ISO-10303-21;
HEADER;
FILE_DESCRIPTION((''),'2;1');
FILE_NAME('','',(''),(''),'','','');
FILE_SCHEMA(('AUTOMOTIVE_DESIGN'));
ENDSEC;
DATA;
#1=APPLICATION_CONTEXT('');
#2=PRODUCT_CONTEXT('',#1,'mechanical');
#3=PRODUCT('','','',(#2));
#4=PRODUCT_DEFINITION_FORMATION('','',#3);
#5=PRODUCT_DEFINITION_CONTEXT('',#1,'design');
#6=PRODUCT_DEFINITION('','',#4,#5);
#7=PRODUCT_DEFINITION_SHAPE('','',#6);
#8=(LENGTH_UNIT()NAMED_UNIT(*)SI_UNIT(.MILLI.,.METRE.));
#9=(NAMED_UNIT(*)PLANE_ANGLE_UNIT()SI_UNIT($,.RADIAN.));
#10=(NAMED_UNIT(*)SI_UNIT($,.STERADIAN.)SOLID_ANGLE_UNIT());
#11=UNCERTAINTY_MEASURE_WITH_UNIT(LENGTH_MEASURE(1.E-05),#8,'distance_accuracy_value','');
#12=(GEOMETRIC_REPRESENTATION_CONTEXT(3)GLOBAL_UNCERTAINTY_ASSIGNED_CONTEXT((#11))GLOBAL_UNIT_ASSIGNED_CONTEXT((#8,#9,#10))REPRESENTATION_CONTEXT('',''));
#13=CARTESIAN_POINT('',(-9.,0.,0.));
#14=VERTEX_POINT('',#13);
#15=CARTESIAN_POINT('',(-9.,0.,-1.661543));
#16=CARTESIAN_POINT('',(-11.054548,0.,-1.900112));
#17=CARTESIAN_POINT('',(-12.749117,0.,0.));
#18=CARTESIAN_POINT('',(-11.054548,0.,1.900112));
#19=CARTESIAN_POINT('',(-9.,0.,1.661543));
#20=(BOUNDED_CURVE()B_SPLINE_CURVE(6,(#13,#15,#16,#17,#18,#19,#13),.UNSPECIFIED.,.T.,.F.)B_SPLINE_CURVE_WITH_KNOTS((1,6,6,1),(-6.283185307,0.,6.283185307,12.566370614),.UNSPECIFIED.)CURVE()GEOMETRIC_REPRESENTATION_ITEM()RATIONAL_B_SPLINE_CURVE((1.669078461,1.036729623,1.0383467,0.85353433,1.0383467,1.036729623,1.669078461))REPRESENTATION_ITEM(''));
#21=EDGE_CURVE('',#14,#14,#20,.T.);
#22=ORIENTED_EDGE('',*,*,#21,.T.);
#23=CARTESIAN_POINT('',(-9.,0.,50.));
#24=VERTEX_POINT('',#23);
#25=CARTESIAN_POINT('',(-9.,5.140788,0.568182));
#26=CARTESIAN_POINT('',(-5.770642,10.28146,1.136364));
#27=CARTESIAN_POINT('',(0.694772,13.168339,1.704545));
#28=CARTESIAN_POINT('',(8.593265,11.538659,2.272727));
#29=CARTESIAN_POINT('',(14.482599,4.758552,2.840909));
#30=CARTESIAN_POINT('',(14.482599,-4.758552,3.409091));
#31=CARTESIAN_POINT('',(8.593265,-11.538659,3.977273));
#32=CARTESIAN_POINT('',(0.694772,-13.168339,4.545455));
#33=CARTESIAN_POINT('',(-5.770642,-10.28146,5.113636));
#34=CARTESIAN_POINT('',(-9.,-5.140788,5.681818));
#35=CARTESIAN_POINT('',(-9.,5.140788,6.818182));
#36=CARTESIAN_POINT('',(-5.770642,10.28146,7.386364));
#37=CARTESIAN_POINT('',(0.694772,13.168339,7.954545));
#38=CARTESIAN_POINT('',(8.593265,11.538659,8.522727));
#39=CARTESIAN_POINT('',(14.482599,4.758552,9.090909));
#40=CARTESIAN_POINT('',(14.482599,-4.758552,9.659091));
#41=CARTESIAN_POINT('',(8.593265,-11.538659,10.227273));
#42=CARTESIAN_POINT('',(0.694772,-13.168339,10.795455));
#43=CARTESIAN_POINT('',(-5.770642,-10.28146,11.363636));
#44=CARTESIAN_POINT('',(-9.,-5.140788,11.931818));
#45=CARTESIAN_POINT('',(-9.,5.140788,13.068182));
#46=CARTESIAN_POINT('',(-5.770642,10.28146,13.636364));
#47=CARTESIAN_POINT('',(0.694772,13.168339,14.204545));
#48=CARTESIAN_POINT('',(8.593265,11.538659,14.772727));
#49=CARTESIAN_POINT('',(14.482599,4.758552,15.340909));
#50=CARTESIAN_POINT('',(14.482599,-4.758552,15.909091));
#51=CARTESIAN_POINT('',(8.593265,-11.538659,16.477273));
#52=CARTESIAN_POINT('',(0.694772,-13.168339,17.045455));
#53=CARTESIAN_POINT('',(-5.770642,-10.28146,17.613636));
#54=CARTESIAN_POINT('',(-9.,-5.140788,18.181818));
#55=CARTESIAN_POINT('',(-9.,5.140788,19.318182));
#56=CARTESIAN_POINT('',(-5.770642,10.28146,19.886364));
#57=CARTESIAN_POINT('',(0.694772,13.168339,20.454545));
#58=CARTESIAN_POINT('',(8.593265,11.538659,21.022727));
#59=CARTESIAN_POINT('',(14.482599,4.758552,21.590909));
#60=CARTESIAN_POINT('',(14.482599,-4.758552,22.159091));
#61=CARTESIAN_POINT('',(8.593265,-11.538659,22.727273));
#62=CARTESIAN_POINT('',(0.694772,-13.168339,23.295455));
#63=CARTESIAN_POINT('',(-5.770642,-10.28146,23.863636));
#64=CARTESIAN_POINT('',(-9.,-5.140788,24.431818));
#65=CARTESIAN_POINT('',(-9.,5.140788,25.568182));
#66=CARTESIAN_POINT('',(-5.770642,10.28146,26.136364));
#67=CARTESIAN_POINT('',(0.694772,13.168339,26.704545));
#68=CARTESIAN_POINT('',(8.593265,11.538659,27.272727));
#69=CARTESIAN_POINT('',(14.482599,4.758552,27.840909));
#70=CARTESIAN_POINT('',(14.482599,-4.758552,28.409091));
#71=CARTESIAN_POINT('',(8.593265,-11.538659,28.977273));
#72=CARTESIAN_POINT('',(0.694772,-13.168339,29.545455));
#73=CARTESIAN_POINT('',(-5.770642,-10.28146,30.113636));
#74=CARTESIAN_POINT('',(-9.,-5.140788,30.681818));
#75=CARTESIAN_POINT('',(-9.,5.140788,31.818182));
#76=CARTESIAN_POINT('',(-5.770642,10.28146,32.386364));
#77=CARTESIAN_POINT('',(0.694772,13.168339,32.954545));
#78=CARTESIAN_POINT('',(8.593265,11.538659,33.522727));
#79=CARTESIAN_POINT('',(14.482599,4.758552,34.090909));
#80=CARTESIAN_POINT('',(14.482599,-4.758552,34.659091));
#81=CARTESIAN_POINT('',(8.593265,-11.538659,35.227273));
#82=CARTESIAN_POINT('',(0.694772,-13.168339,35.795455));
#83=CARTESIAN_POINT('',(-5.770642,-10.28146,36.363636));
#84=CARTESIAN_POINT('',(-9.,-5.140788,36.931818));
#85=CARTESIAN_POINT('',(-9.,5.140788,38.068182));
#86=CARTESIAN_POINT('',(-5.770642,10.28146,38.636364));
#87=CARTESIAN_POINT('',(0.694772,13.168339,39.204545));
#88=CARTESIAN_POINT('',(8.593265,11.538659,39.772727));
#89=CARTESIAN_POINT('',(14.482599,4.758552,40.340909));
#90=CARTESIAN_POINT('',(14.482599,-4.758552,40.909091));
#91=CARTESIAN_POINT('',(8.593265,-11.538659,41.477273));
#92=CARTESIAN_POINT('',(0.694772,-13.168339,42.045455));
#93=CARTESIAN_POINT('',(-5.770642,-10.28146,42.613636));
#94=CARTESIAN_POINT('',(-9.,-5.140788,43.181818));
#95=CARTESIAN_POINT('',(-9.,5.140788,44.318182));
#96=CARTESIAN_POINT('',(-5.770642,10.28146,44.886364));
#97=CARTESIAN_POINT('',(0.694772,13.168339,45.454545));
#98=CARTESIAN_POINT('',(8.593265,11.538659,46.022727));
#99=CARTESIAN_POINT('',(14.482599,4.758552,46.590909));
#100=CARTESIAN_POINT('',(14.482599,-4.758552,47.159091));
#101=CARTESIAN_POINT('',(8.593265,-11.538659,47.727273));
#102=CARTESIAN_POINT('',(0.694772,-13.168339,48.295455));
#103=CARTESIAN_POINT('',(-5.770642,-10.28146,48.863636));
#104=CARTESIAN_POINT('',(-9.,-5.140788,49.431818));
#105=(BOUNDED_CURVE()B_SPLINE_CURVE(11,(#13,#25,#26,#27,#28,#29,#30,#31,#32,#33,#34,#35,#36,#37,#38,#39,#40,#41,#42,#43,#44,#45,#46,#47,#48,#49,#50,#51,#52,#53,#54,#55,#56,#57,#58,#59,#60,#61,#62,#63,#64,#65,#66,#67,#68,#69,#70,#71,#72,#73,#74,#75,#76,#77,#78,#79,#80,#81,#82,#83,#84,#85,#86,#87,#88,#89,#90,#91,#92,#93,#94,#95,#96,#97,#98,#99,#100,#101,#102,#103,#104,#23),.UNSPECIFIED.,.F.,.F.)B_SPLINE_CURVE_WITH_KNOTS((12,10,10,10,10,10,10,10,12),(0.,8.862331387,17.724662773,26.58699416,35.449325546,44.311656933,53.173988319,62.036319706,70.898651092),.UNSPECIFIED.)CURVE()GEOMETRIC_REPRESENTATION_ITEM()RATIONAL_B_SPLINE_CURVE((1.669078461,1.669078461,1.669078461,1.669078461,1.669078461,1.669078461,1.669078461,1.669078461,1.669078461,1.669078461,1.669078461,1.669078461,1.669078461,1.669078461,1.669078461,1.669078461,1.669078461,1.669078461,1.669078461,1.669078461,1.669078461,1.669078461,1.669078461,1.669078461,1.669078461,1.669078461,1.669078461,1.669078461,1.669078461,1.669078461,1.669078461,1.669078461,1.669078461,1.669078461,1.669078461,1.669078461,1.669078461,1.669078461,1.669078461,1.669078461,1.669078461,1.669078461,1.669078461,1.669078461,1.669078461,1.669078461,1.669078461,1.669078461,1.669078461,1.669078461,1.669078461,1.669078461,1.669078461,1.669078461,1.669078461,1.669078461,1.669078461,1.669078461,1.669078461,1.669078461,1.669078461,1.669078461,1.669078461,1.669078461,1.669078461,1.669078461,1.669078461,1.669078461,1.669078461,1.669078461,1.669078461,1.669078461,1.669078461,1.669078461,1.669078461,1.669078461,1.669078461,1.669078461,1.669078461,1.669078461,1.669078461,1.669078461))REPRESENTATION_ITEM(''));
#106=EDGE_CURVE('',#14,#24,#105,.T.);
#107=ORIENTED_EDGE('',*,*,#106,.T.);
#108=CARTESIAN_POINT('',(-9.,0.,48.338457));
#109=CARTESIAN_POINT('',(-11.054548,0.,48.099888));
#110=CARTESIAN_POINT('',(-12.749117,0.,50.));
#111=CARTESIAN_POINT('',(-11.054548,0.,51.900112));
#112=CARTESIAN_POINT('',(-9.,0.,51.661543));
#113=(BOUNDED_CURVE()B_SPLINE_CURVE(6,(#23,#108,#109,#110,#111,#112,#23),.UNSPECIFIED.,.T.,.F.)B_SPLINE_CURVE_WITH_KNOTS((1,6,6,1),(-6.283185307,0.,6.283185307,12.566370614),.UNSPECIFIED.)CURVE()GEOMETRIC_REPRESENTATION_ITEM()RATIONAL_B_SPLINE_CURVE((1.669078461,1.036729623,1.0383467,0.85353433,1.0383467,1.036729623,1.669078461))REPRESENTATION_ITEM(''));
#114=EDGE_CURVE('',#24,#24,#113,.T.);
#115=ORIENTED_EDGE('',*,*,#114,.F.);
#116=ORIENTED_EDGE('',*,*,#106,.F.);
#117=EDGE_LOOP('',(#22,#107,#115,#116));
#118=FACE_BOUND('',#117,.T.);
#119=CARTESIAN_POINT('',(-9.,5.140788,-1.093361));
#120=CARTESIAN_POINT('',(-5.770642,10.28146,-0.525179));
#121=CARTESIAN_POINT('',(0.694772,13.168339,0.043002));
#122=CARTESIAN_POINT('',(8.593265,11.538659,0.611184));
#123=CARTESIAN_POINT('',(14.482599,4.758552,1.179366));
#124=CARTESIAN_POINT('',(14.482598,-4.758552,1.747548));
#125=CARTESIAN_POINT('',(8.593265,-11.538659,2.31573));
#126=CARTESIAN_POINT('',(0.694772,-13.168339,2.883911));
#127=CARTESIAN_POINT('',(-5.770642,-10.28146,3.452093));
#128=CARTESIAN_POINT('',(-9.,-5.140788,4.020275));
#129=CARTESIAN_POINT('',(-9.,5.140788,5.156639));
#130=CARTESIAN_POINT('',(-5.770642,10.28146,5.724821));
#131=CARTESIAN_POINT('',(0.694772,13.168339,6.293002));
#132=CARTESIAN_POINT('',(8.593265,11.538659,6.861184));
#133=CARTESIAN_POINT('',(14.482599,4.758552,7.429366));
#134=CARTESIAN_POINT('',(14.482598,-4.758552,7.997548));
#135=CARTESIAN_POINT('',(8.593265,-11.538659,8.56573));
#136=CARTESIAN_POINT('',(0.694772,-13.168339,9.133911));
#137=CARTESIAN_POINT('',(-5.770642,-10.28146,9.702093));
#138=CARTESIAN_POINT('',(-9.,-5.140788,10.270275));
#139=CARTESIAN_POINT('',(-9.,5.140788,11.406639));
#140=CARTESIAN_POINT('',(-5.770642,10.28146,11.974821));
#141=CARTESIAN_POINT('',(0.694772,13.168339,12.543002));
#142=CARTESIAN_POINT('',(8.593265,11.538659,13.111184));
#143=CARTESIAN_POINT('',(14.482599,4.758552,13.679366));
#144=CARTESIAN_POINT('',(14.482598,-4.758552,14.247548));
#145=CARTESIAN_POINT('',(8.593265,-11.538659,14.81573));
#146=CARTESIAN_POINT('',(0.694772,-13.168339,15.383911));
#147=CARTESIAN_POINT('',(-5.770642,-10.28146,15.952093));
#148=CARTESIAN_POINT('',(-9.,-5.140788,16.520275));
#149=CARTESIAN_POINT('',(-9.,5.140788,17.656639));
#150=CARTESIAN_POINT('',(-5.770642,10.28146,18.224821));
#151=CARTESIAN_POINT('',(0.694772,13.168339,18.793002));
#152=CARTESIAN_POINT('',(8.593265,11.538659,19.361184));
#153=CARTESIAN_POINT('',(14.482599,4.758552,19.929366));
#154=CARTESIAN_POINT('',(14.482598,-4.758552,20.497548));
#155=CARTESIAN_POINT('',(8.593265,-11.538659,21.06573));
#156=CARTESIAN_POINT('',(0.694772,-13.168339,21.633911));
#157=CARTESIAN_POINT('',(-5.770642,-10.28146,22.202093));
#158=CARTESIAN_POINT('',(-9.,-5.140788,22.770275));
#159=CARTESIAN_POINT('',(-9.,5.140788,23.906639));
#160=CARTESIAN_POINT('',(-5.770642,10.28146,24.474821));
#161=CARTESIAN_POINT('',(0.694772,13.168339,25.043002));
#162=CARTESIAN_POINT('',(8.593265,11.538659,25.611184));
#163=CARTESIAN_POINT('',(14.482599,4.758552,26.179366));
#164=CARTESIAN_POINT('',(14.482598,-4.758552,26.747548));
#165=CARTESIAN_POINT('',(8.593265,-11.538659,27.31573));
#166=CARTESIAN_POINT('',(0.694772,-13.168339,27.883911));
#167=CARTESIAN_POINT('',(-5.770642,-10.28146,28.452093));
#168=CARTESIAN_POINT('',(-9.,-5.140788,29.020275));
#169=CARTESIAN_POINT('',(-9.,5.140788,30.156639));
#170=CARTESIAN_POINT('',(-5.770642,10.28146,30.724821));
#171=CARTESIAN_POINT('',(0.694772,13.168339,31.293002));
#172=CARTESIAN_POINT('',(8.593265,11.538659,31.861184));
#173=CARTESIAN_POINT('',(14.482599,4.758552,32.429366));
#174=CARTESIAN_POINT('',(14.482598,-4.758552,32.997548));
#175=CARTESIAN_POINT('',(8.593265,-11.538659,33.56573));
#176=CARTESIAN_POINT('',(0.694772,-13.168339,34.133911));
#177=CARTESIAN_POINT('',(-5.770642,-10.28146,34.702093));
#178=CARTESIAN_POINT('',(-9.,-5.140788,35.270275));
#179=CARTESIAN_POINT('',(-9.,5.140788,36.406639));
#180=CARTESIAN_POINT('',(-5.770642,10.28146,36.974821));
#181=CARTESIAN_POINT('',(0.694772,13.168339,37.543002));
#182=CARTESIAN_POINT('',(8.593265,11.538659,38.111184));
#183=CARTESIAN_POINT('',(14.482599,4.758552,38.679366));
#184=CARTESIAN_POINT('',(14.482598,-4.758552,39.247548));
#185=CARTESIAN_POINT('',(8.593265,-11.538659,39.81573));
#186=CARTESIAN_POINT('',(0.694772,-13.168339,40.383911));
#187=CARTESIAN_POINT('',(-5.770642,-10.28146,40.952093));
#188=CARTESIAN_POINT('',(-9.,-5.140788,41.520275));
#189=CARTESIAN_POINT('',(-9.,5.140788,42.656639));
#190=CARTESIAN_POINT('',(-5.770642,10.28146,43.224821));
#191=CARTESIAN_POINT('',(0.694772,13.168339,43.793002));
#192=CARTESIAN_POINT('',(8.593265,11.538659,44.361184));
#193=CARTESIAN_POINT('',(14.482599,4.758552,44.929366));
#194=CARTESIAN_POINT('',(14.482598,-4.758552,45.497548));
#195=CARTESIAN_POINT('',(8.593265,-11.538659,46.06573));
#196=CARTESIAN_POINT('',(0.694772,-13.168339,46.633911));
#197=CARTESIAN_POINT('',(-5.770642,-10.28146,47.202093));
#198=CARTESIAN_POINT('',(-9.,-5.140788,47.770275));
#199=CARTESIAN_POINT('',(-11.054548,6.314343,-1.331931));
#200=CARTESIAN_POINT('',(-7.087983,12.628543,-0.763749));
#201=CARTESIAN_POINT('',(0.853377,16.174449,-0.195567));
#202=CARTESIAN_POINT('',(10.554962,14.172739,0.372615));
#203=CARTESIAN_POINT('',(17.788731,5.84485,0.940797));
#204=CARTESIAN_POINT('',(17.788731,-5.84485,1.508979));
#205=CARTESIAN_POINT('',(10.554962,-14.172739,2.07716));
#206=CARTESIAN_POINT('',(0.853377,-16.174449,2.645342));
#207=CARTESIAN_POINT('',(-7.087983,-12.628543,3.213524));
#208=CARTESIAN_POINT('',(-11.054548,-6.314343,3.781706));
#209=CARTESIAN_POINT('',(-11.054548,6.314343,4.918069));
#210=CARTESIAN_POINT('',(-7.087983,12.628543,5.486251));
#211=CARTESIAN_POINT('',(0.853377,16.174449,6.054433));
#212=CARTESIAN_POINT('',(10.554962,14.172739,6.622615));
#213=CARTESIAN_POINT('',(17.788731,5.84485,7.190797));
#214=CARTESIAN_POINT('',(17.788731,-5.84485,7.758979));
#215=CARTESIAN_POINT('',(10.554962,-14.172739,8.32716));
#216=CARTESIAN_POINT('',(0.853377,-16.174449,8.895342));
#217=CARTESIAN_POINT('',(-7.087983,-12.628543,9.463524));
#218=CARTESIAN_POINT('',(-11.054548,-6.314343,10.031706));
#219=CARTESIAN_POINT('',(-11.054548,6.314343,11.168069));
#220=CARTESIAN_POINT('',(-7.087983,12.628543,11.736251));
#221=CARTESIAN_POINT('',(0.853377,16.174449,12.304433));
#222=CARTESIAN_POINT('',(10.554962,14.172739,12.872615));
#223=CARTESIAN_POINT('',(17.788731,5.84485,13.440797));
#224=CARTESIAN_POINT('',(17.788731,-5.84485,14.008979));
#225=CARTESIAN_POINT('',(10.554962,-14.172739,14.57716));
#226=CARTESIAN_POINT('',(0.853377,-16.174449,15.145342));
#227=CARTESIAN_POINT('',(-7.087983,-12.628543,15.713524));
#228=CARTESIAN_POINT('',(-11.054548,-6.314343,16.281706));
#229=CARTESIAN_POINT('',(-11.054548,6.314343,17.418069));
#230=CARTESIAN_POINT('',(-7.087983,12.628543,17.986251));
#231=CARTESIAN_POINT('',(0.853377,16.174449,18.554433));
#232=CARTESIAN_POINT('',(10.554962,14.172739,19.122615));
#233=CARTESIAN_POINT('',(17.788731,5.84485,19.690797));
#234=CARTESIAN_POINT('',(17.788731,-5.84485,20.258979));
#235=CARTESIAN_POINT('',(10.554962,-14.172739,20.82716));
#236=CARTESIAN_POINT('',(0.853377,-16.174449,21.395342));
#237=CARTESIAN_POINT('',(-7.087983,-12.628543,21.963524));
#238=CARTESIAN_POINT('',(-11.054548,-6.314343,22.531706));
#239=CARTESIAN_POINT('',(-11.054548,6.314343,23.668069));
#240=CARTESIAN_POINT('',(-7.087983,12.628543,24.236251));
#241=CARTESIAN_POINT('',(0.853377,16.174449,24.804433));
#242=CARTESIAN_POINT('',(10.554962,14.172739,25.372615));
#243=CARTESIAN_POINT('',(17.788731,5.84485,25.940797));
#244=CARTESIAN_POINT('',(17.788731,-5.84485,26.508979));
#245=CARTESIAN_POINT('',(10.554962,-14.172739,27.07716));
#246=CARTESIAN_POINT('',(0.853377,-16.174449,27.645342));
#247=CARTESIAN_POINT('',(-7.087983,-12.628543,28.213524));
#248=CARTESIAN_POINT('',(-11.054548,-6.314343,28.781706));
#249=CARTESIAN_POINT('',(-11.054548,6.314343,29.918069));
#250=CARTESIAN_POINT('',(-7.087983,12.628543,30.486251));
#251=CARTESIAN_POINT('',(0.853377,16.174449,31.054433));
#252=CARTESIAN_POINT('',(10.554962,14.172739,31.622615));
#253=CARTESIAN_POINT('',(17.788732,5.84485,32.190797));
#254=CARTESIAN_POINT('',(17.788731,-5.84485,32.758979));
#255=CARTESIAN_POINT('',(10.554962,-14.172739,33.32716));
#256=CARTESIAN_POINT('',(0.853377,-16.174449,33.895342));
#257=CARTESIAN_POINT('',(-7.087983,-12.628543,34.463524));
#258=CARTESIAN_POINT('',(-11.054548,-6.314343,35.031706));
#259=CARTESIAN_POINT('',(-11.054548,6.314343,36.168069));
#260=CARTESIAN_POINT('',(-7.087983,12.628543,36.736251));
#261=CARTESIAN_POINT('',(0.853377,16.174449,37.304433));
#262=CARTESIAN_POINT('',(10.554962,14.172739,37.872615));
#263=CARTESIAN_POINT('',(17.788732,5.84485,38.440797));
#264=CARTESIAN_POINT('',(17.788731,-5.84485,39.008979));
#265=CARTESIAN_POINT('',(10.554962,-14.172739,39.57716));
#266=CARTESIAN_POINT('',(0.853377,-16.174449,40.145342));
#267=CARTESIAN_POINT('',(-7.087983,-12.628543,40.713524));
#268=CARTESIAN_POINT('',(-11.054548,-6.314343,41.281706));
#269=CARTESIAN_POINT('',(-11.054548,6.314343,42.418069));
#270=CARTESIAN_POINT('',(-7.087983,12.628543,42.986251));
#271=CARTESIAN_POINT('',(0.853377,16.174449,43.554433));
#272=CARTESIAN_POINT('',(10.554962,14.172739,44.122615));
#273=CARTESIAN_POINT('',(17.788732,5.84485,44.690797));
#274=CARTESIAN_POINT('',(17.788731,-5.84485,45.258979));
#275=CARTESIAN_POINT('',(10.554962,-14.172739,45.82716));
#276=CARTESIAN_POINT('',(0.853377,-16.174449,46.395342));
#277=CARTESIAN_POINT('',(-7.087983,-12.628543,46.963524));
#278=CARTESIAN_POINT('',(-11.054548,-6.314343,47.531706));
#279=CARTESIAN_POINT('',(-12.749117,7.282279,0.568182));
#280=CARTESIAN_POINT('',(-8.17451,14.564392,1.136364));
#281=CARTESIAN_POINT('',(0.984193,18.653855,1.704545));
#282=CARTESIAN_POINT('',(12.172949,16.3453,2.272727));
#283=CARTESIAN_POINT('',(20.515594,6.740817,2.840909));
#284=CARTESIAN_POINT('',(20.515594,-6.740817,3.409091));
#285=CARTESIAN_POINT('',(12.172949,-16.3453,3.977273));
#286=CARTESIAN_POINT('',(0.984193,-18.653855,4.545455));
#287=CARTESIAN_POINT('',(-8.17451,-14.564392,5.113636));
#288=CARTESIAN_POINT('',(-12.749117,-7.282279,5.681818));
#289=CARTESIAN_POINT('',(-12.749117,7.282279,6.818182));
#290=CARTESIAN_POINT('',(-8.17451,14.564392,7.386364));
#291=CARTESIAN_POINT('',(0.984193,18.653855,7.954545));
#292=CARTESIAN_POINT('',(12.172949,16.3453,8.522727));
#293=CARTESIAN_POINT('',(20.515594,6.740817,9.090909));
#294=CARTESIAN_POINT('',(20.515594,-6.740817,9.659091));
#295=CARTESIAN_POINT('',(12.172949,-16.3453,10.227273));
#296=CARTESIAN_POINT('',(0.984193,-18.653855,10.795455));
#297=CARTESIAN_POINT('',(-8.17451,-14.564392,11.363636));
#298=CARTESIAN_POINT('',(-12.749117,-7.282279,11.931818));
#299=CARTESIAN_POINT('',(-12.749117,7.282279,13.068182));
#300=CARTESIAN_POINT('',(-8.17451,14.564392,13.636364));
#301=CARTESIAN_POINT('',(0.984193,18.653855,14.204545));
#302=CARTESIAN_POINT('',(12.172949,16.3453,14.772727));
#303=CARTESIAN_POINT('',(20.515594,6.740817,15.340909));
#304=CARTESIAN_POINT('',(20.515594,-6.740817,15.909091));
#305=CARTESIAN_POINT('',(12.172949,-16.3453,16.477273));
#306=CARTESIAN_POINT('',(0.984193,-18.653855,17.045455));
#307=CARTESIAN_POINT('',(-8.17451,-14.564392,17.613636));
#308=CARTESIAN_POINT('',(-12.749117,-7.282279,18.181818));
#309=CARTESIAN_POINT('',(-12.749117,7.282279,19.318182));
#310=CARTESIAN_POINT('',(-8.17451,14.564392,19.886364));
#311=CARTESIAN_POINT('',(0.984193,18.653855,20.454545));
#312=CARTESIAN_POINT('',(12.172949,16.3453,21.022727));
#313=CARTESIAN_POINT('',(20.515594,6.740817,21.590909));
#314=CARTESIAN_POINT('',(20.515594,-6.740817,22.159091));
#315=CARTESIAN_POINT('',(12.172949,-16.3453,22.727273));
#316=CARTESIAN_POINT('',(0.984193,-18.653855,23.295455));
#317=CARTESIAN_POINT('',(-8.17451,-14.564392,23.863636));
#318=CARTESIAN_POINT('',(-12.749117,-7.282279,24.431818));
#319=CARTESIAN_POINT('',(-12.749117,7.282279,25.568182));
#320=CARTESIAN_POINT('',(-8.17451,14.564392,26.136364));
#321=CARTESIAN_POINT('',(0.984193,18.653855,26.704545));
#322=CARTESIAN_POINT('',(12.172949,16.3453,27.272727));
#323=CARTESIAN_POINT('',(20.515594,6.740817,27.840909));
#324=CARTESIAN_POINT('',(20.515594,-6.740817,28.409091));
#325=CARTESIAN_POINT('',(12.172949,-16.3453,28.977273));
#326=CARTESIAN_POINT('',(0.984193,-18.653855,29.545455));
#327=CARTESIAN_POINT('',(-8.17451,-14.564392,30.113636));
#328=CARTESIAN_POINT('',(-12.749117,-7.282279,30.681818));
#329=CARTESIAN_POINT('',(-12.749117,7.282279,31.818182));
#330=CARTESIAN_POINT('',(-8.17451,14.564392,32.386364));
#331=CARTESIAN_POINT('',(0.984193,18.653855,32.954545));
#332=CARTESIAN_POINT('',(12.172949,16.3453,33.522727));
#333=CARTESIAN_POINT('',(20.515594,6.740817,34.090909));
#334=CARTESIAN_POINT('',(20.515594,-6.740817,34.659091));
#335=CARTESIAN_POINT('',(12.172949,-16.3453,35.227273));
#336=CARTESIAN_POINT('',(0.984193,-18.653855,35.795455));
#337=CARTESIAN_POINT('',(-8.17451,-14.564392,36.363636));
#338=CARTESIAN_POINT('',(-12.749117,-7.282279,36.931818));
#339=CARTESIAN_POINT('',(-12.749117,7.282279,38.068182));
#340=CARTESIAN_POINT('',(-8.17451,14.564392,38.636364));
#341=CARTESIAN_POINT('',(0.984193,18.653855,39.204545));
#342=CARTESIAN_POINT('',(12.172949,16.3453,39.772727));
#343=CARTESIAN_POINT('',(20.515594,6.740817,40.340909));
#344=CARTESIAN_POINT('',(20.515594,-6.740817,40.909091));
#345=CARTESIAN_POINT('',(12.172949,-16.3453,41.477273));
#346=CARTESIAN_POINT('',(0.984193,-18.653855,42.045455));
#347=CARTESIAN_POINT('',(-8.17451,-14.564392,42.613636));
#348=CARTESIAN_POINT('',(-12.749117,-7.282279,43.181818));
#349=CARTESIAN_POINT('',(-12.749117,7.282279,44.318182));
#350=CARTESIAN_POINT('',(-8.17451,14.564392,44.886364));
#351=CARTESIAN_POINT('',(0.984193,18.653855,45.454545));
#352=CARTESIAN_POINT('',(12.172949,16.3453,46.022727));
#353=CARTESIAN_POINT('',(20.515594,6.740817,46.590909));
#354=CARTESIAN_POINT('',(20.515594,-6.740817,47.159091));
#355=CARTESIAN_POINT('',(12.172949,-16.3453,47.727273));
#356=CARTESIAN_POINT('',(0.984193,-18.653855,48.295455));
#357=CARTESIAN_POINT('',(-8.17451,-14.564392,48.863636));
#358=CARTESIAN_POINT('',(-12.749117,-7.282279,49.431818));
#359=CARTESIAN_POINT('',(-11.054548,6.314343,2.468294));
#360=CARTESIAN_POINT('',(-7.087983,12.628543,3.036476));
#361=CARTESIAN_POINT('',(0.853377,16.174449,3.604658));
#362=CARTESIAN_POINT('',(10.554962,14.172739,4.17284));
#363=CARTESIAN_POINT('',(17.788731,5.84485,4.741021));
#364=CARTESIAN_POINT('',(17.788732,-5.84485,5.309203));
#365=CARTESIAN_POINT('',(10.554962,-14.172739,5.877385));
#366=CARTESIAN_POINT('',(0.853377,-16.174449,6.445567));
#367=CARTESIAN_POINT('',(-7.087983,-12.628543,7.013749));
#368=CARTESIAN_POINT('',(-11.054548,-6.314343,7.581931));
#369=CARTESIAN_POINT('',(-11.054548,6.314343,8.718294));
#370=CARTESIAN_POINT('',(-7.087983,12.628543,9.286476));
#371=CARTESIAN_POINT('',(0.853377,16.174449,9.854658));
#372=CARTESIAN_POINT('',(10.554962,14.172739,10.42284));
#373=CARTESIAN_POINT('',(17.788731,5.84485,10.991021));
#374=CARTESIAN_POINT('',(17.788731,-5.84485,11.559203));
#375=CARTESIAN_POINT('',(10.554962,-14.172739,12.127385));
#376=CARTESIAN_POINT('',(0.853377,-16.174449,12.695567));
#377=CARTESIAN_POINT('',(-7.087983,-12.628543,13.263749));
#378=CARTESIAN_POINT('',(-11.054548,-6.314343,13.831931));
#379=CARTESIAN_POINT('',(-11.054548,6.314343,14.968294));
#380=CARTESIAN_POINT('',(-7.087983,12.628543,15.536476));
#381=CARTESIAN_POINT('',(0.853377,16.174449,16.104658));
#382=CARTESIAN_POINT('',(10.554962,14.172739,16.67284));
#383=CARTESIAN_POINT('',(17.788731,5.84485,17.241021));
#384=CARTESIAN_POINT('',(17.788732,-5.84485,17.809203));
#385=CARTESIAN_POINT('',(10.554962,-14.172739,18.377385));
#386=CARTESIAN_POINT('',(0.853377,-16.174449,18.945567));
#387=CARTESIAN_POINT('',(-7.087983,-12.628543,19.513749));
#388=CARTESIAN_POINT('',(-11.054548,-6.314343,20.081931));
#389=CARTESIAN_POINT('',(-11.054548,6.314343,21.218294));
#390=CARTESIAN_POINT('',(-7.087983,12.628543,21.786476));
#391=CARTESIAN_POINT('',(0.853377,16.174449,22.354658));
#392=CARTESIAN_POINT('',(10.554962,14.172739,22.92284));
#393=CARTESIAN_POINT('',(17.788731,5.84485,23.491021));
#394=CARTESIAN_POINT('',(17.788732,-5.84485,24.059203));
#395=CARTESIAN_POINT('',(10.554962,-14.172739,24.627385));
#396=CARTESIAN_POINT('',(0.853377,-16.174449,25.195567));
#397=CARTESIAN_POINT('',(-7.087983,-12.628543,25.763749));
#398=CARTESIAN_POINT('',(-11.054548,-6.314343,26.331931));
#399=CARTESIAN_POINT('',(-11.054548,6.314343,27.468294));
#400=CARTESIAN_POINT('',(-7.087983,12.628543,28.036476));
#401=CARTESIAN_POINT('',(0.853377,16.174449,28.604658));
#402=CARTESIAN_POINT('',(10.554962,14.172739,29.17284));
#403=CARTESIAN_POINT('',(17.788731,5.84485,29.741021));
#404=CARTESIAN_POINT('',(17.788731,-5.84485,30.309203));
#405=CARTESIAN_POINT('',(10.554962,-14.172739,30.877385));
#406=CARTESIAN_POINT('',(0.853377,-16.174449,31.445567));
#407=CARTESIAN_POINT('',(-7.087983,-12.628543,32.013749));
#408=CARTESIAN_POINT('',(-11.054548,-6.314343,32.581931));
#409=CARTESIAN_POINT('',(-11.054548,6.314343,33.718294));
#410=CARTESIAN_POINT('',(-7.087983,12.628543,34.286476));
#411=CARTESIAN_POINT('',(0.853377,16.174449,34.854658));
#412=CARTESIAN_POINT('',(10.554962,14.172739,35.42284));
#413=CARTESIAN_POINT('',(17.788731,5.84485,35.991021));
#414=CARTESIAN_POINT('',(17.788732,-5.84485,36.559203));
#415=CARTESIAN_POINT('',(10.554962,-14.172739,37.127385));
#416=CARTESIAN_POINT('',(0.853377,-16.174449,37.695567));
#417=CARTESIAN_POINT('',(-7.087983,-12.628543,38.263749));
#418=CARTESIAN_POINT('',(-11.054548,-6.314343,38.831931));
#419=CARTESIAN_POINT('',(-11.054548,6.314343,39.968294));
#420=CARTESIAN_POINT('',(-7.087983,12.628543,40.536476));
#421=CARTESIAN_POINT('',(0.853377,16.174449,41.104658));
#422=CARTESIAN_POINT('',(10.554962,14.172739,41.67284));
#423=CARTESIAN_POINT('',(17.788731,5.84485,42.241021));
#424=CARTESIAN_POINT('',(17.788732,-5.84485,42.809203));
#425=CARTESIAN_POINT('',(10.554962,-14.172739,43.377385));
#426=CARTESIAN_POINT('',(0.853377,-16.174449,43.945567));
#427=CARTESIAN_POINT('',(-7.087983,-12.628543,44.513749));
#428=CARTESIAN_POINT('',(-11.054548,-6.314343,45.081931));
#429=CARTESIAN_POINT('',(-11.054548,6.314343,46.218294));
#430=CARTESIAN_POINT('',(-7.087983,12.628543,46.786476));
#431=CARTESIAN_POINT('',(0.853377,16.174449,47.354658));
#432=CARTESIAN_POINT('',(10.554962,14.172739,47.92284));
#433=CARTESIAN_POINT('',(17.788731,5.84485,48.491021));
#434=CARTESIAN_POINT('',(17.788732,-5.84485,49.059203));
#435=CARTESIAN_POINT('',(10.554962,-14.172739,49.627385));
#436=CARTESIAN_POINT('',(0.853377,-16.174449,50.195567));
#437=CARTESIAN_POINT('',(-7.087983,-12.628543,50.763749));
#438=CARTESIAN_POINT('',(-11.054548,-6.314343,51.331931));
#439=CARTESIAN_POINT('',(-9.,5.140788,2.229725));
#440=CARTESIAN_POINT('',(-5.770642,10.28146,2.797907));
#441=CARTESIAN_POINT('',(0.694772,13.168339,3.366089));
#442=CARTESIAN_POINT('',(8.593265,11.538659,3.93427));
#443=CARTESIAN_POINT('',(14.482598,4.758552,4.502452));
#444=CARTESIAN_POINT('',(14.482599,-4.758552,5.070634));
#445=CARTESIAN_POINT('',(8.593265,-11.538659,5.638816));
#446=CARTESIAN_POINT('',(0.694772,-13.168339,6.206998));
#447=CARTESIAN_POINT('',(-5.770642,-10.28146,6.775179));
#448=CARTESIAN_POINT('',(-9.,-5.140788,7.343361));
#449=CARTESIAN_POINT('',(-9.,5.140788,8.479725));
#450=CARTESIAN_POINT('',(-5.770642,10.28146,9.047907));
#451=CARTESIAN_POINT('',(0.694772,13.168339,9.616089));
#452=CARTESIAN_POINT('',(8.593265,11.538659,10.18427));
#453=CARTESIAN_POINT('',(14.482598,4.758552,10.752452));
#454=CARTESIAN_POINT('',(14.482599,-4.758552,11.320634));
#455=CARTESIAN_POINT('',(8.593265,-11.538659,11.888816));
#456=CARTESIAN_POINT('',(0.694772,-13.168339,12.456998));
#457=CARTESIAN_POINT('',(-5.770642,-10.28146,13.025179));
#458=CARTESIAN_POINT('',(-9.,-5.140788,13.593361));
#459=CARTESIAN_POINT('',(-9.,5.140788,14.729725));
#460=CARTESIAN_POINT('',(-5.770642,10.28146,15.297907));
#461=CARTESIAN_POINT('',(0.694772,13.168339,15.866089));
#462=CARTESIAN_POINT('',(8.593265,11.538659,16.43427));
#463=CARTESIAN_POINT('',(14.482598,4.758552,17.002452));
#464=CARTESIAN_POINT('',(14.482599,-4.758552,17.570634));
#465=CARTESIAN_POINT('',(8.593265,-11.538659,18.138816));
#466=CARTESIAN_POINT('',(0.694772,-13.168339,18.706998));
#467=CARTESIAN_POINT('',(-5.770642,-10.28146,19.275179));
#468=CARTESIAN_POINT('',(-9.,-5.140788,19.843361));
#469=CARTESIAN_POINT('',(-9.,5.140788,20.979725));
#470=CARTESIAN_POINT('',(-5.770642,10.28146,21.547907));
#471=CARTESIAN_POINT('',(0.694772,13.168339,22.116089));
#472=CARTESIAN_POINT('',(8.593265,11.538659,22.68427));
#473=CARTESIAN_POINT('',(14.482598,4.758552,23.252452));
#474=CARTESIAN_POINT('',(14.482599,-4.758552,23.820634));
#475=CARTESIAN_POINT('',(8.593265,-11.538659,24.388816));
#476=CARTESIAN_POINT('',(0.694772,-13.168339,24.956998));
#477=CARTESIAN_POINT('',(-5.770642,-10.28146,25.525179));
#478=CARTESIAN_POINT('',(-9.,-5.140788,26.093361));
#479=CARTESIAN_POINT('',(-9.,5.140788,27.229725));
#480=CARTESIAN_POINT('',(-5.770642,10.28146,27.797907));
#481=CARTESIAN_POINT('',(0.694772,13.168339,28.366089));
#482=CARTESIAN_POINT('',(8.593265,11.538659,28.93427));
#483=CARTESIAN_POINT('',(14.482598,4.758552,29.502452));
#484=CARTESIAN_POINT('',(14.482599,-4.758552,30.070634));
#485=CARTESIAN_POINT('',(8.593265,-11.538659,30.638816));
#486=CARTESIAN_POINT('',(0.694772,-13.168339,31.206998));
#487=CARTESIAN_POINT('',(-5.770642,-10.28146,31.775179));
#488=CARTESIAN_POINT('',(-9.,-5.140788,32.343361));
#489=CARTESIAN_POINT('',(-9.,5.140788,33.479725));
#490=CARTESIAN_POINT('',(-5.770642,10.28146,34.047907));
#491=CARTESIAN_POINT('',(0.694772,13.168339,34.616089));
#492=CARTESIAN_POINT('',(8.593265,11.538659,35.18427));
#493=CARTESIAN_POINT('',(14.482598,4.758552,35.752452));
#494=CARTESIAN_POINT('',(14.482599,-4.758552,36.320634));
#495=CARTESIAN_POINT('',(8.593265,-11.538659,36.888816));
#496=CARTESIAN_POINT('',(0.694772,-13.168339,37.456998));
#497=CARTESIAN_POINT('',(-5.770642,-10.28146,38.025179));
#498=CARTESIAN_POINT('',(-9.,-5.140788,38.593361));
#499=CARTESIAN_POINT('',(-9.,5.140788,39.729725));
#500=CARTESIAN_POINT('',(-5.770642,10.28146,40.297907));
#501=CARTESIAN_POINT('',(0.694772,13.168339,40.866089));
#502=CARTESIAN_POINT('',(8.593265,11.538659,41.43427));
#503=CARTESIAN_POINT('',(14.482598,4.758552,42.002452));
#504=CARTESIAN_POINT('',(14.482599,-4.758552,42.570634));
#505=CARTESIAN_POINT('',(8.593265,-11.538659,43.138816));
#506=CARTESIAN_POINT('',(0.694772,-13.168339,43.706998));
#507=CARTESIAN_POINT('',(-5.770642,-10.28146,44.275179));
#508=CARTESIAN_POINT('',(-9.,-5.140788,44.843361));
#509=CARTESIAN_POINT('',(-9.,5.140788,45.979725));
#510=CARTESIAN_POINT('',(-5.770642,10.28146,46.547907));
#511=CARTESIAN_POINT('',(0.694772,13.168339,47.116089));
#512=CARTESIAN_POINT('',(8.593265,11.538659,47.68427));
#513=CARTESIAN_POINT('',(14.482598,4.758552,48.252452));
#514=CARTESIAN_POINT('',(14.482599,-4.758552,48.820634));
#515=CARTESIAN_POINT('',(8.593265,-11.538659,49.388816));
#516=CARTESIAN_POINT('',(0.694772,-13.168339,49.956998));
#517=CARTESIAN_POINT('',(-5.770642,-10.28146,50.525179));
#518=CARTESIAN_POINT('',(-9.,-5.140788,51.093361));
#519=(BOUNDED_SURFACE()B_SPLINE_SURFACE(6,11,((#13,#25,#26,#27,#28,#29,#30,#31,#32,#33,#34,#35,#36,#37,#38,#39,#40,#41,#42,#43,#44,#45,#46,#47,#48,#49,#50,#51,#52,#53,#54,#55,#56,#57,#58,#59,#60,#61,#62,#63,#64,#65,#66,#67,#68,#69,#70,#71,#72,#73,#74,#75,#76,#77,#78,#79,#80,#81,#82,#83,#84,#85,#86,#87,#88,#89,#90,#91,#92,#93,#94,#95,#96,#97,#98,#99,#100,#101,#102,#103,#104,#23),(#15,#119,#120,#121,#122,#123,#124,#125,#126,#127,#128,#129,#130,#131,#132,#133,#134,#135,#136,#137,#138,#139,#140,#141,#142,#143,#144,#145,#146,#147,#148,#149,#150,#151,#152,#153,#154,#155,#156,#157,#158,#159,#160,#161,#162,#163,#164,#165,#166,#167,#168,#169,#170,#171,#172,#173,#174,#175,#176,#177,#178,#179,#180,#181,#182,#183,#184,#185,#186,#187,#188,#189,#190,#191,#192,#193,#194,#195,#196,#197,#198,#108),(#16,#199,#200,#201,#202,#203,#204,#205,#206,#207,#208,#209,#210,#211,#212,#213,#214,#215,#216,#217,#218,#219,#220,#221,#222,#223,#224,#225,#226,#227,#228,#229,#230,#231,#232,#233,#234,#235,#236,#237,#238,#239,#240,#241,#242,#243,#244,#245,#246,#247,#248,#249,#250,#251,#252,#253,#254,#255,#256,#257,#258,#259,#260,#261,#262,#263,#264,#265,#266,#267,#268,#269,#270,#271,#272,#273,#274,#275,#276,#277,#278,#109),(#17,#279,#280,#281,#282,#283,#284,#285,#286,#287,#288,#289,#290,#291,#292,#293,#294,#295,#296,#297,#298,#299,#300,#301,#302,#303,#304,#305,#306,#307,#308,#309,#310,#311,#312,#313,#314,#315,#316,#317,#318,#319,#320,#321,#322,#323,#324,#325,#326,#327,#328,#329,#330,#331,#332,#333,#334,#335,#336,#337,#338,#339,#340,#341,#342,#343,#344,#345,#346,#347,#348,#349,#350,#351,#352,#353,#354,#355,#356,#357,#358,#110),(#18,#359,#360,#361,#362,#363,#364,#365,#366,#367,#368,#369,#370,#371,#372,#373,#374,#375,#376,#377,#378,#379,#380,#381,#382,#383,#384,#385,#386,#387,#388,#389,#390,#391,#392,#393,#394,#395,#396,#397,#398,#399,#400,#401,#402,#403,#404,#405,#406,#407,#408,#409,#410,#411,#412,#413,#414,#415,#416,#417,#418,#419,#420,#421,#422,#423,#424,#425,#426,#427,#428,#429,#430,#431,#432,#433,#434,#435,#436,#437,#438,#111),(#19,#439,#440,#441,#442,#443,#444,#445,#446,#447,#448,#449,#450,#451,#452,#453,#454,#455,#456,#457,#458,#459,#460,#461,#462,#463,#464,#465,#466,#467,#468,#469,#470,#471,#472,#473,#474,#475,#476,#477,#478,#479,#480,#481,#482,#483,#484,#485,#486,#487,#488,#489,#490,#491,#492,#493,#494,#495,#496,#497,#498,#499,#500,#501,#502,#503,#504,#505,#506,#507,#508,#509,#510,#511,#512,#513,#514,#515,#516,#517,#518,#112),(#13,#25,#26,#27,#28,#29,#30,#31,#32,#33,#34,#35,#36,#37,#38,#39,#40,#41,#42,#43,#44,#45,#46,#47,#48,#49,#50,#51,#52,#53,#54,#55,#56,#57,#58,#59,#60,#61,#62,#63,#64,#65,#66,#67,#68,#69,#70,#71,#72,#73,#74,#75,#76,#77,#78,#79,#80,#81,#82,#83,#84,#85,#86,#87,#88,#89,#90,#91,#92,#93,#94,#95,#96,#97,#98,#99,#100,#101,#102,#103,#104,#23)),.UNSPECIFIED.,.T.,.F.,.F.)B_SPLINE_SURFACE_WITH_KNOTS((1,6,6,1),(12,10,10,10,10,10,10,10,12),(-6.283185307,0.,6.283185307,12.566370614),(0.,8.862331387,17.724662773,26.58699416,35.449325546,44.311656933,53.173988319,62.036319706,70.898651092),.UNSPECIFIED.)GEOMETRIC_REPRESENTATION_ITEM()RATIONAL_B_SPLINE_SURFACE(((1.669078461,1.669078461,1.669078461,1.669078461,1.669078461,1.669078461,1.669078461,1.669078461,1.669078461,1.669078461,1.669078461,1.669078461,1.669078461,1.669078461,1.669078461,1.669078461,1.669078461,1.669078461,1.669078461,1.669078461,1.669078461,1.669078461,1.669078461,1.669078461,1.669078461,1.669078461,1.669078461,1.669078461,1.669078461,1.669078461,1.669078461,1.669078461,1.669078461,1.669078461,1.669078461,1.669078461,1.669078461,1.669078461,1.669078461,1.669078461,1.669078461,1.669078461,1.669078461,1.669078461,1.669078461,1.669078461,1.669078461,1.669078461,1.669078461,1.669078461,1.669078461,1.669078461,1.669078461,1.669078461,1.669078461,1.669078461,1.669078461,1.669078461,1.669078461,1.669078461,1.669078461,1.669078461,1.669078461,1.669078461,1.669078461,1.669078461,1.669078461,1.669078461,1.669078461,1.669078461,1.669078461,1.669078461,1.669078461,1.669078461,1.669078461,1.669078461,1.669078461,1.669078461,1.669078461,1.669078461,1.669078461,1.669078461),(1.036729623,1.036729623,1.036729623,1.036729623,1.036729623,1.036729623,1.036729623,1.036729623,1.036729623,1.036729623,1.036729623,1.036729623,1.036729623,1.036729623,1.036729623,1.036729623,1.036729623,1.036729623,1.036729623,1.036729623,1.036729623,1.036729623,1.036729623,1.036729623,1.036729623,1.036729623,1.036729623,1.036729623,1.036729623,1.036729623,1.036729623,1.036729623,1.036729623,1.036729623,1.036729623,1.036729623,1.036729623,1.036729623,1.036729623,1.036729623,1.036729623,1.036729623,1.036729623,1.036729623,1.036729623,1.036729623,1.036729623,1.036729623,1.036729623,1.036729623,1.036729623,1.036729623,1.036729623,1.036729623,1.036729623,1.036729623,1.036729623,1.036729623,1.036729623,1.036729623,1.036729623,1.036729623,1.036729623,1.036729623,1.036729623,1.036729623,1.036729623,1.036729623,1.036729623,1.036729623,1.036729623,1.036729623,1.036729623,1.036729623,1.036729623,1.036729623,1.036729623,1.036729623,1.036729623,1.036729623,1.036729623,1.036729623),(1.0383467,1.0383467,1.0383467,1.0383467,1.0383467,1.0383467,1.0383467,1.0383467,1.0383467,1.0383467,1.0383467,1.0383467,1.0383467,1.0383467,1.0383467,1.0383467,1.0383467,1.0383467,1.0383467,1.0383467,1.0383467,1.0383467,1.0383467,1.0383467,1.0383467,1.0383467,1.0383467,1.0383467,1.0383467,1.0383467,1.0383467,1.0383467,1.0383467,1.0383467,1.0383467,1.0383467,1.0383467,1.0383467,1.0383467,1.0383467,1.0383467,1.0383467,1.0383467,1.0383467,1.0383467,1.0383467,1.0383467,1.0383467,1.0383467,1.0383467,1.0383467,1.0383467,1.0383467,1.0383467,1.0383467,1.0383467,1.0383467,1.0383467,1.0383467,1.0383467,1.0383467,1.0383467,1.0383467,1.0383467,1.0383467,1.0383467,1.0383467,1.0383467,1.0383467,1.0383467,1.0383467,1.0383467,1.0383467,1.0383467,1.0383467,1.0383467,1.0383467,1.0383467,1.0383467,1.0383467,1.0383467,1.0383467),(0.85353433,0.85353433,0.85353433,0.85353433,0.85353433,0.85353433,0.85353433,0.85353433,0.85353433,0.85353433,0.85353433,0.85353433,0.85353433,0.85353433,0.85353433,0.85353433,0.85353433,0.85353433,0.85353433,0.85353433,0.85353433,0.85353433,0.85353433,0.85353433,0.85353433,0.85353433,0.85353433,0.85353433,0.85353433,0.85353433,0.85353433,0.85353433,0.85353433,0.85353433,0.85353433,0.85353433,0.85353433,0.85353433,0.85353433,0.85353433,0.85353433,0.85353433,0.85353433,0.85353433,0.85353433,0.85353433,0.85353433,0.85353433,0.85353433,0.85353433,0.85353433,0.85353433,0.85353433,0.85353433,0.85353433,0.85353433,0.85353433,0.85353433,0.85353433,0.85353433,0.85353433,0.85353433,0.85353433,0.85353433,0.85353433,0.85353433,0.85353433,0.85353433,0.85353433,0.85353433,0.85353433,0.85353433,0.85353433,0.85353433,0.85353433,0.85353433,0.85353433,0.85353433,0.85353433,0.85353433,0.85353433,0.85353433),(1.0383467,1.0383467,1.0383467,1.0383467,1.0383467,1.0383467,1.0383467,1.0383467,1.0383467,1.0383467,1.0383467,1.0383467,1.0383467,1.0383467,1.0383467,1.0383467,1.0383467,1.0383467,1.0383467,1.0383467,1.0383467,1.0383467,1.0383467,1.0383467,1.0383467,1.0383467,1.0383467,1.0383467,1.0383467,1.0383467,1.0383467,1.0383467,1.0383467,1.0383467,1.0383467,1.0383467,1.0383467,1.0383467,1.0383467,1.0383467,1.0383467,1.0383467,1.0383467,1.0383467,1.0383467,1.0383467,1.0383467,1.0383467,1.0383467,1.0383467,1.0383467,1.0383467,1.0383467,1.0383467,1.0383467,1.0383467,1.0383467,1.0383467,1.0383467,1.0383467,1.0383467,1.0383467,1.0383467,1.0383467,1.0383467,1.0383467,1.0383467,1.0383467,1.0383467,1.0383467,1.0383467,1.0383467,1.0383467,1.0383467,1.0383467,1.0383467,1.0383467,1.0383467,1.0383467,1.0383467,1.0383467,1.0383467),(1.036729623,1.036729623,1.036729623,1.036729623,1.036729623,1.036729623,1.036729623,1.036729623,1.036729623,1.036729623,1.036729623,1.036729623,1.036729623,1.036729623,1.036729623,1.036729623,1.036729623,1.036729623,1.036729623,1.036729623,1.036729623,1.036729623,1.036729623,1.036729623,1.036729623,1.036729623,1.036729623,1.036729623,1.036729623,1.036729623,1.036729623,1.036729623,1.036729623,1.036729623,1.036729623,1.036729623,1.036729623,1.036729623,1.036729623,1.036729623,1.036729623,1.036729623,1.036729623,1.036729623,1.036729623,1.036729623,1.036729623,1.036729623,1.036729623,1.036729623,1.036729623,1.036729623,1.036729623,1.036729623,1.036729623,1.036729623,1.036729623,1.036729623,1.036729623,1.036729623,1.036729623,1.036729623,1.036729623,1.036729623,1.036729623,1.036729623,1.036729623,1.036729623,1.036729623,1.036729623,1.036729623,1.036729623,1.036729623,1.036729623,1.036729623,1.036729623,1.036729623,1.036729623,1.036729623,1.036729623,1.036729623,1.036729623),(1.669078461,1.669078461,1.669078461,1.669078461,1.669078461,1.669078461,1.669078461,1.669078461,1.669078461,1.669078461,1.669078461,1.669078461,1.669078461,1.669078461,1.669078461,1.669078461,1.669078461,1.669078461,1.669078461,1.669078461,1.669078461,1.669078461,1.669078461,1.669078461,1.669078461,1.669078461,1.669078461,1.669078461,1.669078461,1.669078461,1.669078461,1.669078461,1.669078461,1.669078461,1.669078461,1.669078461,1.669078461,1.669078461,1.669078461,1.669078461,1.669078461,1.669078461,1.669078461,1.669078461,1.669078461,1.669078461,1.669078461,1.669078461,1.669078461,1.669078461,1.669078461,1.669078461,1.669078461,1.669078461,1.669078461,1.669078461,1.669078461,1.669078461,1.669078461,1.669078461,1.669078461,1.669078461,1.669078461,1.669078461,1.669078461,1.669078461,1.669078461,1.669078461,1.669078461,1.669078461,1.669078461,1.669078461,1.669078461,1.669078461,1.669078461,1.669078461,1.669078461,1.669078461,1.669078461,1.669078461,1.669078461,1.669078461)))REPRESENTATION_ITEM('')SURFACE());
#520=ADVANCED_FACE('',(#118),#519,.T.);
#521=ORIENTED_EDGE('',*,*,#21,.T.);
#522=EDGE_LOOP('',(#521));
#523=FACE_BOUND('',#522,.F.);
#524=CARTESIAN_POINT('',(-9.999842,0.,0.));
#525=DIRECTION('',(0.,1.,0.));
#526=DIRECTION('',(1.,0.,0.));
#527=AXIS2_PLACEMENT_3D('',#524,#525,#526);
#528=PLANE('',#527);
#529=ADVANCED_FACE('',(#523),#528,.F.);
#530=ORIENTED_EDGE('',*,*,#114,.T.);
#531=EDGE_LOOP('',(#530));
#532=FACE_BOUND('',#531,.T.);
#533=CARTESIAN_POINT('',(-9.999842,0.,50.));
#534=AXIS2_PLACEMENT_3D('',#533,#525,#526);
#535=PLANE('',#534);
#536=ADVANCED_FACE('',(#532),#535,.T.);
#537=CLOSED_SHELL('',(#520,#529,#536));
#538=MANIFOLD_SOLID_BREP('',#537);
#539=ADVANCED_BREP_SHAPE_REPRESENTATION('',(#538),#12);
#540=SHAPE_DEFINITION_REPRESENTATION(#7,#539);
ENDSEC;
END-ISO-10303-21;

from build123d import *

# Parameters (mm, degrees)
SWEEP1_PITCH       = 6.25
SWEEP1_HEIGHT      = 50
SWEEP1_RADIUS      = 10
SWEEP1_START_ANGLE = -180
SCHIZZO2_R         = 1


with BuildPart() as part:
    # Sweep1: sweep along a helix
    with BuildLine() as sweep1_path:
        add(Helix(SWEEP1_PITCH, SWEEP1_HEIGHT, SWEEP1_RADIUS, center=(0, 0, 0), direction=(0, 0, 1), lefthand=True, mode=Mode.PRIVATE).rotate(Axis((0, 0, 0), (0, 0, 1)), SWEEP1_START_ANGLE))
    # Schizzo2 → Sweep1 (sweep)
    with BuildSketch(Plane(origin=(0, 0, 0), x_dir=(1, 0, 0), z_dir=(0, 1, 0))):
        with Locations((-10, 0)):
            Circle(SCHIZZO2_R)
    sweep(path=sweep1_path.line, is_frenet=True)


solid = part.part
